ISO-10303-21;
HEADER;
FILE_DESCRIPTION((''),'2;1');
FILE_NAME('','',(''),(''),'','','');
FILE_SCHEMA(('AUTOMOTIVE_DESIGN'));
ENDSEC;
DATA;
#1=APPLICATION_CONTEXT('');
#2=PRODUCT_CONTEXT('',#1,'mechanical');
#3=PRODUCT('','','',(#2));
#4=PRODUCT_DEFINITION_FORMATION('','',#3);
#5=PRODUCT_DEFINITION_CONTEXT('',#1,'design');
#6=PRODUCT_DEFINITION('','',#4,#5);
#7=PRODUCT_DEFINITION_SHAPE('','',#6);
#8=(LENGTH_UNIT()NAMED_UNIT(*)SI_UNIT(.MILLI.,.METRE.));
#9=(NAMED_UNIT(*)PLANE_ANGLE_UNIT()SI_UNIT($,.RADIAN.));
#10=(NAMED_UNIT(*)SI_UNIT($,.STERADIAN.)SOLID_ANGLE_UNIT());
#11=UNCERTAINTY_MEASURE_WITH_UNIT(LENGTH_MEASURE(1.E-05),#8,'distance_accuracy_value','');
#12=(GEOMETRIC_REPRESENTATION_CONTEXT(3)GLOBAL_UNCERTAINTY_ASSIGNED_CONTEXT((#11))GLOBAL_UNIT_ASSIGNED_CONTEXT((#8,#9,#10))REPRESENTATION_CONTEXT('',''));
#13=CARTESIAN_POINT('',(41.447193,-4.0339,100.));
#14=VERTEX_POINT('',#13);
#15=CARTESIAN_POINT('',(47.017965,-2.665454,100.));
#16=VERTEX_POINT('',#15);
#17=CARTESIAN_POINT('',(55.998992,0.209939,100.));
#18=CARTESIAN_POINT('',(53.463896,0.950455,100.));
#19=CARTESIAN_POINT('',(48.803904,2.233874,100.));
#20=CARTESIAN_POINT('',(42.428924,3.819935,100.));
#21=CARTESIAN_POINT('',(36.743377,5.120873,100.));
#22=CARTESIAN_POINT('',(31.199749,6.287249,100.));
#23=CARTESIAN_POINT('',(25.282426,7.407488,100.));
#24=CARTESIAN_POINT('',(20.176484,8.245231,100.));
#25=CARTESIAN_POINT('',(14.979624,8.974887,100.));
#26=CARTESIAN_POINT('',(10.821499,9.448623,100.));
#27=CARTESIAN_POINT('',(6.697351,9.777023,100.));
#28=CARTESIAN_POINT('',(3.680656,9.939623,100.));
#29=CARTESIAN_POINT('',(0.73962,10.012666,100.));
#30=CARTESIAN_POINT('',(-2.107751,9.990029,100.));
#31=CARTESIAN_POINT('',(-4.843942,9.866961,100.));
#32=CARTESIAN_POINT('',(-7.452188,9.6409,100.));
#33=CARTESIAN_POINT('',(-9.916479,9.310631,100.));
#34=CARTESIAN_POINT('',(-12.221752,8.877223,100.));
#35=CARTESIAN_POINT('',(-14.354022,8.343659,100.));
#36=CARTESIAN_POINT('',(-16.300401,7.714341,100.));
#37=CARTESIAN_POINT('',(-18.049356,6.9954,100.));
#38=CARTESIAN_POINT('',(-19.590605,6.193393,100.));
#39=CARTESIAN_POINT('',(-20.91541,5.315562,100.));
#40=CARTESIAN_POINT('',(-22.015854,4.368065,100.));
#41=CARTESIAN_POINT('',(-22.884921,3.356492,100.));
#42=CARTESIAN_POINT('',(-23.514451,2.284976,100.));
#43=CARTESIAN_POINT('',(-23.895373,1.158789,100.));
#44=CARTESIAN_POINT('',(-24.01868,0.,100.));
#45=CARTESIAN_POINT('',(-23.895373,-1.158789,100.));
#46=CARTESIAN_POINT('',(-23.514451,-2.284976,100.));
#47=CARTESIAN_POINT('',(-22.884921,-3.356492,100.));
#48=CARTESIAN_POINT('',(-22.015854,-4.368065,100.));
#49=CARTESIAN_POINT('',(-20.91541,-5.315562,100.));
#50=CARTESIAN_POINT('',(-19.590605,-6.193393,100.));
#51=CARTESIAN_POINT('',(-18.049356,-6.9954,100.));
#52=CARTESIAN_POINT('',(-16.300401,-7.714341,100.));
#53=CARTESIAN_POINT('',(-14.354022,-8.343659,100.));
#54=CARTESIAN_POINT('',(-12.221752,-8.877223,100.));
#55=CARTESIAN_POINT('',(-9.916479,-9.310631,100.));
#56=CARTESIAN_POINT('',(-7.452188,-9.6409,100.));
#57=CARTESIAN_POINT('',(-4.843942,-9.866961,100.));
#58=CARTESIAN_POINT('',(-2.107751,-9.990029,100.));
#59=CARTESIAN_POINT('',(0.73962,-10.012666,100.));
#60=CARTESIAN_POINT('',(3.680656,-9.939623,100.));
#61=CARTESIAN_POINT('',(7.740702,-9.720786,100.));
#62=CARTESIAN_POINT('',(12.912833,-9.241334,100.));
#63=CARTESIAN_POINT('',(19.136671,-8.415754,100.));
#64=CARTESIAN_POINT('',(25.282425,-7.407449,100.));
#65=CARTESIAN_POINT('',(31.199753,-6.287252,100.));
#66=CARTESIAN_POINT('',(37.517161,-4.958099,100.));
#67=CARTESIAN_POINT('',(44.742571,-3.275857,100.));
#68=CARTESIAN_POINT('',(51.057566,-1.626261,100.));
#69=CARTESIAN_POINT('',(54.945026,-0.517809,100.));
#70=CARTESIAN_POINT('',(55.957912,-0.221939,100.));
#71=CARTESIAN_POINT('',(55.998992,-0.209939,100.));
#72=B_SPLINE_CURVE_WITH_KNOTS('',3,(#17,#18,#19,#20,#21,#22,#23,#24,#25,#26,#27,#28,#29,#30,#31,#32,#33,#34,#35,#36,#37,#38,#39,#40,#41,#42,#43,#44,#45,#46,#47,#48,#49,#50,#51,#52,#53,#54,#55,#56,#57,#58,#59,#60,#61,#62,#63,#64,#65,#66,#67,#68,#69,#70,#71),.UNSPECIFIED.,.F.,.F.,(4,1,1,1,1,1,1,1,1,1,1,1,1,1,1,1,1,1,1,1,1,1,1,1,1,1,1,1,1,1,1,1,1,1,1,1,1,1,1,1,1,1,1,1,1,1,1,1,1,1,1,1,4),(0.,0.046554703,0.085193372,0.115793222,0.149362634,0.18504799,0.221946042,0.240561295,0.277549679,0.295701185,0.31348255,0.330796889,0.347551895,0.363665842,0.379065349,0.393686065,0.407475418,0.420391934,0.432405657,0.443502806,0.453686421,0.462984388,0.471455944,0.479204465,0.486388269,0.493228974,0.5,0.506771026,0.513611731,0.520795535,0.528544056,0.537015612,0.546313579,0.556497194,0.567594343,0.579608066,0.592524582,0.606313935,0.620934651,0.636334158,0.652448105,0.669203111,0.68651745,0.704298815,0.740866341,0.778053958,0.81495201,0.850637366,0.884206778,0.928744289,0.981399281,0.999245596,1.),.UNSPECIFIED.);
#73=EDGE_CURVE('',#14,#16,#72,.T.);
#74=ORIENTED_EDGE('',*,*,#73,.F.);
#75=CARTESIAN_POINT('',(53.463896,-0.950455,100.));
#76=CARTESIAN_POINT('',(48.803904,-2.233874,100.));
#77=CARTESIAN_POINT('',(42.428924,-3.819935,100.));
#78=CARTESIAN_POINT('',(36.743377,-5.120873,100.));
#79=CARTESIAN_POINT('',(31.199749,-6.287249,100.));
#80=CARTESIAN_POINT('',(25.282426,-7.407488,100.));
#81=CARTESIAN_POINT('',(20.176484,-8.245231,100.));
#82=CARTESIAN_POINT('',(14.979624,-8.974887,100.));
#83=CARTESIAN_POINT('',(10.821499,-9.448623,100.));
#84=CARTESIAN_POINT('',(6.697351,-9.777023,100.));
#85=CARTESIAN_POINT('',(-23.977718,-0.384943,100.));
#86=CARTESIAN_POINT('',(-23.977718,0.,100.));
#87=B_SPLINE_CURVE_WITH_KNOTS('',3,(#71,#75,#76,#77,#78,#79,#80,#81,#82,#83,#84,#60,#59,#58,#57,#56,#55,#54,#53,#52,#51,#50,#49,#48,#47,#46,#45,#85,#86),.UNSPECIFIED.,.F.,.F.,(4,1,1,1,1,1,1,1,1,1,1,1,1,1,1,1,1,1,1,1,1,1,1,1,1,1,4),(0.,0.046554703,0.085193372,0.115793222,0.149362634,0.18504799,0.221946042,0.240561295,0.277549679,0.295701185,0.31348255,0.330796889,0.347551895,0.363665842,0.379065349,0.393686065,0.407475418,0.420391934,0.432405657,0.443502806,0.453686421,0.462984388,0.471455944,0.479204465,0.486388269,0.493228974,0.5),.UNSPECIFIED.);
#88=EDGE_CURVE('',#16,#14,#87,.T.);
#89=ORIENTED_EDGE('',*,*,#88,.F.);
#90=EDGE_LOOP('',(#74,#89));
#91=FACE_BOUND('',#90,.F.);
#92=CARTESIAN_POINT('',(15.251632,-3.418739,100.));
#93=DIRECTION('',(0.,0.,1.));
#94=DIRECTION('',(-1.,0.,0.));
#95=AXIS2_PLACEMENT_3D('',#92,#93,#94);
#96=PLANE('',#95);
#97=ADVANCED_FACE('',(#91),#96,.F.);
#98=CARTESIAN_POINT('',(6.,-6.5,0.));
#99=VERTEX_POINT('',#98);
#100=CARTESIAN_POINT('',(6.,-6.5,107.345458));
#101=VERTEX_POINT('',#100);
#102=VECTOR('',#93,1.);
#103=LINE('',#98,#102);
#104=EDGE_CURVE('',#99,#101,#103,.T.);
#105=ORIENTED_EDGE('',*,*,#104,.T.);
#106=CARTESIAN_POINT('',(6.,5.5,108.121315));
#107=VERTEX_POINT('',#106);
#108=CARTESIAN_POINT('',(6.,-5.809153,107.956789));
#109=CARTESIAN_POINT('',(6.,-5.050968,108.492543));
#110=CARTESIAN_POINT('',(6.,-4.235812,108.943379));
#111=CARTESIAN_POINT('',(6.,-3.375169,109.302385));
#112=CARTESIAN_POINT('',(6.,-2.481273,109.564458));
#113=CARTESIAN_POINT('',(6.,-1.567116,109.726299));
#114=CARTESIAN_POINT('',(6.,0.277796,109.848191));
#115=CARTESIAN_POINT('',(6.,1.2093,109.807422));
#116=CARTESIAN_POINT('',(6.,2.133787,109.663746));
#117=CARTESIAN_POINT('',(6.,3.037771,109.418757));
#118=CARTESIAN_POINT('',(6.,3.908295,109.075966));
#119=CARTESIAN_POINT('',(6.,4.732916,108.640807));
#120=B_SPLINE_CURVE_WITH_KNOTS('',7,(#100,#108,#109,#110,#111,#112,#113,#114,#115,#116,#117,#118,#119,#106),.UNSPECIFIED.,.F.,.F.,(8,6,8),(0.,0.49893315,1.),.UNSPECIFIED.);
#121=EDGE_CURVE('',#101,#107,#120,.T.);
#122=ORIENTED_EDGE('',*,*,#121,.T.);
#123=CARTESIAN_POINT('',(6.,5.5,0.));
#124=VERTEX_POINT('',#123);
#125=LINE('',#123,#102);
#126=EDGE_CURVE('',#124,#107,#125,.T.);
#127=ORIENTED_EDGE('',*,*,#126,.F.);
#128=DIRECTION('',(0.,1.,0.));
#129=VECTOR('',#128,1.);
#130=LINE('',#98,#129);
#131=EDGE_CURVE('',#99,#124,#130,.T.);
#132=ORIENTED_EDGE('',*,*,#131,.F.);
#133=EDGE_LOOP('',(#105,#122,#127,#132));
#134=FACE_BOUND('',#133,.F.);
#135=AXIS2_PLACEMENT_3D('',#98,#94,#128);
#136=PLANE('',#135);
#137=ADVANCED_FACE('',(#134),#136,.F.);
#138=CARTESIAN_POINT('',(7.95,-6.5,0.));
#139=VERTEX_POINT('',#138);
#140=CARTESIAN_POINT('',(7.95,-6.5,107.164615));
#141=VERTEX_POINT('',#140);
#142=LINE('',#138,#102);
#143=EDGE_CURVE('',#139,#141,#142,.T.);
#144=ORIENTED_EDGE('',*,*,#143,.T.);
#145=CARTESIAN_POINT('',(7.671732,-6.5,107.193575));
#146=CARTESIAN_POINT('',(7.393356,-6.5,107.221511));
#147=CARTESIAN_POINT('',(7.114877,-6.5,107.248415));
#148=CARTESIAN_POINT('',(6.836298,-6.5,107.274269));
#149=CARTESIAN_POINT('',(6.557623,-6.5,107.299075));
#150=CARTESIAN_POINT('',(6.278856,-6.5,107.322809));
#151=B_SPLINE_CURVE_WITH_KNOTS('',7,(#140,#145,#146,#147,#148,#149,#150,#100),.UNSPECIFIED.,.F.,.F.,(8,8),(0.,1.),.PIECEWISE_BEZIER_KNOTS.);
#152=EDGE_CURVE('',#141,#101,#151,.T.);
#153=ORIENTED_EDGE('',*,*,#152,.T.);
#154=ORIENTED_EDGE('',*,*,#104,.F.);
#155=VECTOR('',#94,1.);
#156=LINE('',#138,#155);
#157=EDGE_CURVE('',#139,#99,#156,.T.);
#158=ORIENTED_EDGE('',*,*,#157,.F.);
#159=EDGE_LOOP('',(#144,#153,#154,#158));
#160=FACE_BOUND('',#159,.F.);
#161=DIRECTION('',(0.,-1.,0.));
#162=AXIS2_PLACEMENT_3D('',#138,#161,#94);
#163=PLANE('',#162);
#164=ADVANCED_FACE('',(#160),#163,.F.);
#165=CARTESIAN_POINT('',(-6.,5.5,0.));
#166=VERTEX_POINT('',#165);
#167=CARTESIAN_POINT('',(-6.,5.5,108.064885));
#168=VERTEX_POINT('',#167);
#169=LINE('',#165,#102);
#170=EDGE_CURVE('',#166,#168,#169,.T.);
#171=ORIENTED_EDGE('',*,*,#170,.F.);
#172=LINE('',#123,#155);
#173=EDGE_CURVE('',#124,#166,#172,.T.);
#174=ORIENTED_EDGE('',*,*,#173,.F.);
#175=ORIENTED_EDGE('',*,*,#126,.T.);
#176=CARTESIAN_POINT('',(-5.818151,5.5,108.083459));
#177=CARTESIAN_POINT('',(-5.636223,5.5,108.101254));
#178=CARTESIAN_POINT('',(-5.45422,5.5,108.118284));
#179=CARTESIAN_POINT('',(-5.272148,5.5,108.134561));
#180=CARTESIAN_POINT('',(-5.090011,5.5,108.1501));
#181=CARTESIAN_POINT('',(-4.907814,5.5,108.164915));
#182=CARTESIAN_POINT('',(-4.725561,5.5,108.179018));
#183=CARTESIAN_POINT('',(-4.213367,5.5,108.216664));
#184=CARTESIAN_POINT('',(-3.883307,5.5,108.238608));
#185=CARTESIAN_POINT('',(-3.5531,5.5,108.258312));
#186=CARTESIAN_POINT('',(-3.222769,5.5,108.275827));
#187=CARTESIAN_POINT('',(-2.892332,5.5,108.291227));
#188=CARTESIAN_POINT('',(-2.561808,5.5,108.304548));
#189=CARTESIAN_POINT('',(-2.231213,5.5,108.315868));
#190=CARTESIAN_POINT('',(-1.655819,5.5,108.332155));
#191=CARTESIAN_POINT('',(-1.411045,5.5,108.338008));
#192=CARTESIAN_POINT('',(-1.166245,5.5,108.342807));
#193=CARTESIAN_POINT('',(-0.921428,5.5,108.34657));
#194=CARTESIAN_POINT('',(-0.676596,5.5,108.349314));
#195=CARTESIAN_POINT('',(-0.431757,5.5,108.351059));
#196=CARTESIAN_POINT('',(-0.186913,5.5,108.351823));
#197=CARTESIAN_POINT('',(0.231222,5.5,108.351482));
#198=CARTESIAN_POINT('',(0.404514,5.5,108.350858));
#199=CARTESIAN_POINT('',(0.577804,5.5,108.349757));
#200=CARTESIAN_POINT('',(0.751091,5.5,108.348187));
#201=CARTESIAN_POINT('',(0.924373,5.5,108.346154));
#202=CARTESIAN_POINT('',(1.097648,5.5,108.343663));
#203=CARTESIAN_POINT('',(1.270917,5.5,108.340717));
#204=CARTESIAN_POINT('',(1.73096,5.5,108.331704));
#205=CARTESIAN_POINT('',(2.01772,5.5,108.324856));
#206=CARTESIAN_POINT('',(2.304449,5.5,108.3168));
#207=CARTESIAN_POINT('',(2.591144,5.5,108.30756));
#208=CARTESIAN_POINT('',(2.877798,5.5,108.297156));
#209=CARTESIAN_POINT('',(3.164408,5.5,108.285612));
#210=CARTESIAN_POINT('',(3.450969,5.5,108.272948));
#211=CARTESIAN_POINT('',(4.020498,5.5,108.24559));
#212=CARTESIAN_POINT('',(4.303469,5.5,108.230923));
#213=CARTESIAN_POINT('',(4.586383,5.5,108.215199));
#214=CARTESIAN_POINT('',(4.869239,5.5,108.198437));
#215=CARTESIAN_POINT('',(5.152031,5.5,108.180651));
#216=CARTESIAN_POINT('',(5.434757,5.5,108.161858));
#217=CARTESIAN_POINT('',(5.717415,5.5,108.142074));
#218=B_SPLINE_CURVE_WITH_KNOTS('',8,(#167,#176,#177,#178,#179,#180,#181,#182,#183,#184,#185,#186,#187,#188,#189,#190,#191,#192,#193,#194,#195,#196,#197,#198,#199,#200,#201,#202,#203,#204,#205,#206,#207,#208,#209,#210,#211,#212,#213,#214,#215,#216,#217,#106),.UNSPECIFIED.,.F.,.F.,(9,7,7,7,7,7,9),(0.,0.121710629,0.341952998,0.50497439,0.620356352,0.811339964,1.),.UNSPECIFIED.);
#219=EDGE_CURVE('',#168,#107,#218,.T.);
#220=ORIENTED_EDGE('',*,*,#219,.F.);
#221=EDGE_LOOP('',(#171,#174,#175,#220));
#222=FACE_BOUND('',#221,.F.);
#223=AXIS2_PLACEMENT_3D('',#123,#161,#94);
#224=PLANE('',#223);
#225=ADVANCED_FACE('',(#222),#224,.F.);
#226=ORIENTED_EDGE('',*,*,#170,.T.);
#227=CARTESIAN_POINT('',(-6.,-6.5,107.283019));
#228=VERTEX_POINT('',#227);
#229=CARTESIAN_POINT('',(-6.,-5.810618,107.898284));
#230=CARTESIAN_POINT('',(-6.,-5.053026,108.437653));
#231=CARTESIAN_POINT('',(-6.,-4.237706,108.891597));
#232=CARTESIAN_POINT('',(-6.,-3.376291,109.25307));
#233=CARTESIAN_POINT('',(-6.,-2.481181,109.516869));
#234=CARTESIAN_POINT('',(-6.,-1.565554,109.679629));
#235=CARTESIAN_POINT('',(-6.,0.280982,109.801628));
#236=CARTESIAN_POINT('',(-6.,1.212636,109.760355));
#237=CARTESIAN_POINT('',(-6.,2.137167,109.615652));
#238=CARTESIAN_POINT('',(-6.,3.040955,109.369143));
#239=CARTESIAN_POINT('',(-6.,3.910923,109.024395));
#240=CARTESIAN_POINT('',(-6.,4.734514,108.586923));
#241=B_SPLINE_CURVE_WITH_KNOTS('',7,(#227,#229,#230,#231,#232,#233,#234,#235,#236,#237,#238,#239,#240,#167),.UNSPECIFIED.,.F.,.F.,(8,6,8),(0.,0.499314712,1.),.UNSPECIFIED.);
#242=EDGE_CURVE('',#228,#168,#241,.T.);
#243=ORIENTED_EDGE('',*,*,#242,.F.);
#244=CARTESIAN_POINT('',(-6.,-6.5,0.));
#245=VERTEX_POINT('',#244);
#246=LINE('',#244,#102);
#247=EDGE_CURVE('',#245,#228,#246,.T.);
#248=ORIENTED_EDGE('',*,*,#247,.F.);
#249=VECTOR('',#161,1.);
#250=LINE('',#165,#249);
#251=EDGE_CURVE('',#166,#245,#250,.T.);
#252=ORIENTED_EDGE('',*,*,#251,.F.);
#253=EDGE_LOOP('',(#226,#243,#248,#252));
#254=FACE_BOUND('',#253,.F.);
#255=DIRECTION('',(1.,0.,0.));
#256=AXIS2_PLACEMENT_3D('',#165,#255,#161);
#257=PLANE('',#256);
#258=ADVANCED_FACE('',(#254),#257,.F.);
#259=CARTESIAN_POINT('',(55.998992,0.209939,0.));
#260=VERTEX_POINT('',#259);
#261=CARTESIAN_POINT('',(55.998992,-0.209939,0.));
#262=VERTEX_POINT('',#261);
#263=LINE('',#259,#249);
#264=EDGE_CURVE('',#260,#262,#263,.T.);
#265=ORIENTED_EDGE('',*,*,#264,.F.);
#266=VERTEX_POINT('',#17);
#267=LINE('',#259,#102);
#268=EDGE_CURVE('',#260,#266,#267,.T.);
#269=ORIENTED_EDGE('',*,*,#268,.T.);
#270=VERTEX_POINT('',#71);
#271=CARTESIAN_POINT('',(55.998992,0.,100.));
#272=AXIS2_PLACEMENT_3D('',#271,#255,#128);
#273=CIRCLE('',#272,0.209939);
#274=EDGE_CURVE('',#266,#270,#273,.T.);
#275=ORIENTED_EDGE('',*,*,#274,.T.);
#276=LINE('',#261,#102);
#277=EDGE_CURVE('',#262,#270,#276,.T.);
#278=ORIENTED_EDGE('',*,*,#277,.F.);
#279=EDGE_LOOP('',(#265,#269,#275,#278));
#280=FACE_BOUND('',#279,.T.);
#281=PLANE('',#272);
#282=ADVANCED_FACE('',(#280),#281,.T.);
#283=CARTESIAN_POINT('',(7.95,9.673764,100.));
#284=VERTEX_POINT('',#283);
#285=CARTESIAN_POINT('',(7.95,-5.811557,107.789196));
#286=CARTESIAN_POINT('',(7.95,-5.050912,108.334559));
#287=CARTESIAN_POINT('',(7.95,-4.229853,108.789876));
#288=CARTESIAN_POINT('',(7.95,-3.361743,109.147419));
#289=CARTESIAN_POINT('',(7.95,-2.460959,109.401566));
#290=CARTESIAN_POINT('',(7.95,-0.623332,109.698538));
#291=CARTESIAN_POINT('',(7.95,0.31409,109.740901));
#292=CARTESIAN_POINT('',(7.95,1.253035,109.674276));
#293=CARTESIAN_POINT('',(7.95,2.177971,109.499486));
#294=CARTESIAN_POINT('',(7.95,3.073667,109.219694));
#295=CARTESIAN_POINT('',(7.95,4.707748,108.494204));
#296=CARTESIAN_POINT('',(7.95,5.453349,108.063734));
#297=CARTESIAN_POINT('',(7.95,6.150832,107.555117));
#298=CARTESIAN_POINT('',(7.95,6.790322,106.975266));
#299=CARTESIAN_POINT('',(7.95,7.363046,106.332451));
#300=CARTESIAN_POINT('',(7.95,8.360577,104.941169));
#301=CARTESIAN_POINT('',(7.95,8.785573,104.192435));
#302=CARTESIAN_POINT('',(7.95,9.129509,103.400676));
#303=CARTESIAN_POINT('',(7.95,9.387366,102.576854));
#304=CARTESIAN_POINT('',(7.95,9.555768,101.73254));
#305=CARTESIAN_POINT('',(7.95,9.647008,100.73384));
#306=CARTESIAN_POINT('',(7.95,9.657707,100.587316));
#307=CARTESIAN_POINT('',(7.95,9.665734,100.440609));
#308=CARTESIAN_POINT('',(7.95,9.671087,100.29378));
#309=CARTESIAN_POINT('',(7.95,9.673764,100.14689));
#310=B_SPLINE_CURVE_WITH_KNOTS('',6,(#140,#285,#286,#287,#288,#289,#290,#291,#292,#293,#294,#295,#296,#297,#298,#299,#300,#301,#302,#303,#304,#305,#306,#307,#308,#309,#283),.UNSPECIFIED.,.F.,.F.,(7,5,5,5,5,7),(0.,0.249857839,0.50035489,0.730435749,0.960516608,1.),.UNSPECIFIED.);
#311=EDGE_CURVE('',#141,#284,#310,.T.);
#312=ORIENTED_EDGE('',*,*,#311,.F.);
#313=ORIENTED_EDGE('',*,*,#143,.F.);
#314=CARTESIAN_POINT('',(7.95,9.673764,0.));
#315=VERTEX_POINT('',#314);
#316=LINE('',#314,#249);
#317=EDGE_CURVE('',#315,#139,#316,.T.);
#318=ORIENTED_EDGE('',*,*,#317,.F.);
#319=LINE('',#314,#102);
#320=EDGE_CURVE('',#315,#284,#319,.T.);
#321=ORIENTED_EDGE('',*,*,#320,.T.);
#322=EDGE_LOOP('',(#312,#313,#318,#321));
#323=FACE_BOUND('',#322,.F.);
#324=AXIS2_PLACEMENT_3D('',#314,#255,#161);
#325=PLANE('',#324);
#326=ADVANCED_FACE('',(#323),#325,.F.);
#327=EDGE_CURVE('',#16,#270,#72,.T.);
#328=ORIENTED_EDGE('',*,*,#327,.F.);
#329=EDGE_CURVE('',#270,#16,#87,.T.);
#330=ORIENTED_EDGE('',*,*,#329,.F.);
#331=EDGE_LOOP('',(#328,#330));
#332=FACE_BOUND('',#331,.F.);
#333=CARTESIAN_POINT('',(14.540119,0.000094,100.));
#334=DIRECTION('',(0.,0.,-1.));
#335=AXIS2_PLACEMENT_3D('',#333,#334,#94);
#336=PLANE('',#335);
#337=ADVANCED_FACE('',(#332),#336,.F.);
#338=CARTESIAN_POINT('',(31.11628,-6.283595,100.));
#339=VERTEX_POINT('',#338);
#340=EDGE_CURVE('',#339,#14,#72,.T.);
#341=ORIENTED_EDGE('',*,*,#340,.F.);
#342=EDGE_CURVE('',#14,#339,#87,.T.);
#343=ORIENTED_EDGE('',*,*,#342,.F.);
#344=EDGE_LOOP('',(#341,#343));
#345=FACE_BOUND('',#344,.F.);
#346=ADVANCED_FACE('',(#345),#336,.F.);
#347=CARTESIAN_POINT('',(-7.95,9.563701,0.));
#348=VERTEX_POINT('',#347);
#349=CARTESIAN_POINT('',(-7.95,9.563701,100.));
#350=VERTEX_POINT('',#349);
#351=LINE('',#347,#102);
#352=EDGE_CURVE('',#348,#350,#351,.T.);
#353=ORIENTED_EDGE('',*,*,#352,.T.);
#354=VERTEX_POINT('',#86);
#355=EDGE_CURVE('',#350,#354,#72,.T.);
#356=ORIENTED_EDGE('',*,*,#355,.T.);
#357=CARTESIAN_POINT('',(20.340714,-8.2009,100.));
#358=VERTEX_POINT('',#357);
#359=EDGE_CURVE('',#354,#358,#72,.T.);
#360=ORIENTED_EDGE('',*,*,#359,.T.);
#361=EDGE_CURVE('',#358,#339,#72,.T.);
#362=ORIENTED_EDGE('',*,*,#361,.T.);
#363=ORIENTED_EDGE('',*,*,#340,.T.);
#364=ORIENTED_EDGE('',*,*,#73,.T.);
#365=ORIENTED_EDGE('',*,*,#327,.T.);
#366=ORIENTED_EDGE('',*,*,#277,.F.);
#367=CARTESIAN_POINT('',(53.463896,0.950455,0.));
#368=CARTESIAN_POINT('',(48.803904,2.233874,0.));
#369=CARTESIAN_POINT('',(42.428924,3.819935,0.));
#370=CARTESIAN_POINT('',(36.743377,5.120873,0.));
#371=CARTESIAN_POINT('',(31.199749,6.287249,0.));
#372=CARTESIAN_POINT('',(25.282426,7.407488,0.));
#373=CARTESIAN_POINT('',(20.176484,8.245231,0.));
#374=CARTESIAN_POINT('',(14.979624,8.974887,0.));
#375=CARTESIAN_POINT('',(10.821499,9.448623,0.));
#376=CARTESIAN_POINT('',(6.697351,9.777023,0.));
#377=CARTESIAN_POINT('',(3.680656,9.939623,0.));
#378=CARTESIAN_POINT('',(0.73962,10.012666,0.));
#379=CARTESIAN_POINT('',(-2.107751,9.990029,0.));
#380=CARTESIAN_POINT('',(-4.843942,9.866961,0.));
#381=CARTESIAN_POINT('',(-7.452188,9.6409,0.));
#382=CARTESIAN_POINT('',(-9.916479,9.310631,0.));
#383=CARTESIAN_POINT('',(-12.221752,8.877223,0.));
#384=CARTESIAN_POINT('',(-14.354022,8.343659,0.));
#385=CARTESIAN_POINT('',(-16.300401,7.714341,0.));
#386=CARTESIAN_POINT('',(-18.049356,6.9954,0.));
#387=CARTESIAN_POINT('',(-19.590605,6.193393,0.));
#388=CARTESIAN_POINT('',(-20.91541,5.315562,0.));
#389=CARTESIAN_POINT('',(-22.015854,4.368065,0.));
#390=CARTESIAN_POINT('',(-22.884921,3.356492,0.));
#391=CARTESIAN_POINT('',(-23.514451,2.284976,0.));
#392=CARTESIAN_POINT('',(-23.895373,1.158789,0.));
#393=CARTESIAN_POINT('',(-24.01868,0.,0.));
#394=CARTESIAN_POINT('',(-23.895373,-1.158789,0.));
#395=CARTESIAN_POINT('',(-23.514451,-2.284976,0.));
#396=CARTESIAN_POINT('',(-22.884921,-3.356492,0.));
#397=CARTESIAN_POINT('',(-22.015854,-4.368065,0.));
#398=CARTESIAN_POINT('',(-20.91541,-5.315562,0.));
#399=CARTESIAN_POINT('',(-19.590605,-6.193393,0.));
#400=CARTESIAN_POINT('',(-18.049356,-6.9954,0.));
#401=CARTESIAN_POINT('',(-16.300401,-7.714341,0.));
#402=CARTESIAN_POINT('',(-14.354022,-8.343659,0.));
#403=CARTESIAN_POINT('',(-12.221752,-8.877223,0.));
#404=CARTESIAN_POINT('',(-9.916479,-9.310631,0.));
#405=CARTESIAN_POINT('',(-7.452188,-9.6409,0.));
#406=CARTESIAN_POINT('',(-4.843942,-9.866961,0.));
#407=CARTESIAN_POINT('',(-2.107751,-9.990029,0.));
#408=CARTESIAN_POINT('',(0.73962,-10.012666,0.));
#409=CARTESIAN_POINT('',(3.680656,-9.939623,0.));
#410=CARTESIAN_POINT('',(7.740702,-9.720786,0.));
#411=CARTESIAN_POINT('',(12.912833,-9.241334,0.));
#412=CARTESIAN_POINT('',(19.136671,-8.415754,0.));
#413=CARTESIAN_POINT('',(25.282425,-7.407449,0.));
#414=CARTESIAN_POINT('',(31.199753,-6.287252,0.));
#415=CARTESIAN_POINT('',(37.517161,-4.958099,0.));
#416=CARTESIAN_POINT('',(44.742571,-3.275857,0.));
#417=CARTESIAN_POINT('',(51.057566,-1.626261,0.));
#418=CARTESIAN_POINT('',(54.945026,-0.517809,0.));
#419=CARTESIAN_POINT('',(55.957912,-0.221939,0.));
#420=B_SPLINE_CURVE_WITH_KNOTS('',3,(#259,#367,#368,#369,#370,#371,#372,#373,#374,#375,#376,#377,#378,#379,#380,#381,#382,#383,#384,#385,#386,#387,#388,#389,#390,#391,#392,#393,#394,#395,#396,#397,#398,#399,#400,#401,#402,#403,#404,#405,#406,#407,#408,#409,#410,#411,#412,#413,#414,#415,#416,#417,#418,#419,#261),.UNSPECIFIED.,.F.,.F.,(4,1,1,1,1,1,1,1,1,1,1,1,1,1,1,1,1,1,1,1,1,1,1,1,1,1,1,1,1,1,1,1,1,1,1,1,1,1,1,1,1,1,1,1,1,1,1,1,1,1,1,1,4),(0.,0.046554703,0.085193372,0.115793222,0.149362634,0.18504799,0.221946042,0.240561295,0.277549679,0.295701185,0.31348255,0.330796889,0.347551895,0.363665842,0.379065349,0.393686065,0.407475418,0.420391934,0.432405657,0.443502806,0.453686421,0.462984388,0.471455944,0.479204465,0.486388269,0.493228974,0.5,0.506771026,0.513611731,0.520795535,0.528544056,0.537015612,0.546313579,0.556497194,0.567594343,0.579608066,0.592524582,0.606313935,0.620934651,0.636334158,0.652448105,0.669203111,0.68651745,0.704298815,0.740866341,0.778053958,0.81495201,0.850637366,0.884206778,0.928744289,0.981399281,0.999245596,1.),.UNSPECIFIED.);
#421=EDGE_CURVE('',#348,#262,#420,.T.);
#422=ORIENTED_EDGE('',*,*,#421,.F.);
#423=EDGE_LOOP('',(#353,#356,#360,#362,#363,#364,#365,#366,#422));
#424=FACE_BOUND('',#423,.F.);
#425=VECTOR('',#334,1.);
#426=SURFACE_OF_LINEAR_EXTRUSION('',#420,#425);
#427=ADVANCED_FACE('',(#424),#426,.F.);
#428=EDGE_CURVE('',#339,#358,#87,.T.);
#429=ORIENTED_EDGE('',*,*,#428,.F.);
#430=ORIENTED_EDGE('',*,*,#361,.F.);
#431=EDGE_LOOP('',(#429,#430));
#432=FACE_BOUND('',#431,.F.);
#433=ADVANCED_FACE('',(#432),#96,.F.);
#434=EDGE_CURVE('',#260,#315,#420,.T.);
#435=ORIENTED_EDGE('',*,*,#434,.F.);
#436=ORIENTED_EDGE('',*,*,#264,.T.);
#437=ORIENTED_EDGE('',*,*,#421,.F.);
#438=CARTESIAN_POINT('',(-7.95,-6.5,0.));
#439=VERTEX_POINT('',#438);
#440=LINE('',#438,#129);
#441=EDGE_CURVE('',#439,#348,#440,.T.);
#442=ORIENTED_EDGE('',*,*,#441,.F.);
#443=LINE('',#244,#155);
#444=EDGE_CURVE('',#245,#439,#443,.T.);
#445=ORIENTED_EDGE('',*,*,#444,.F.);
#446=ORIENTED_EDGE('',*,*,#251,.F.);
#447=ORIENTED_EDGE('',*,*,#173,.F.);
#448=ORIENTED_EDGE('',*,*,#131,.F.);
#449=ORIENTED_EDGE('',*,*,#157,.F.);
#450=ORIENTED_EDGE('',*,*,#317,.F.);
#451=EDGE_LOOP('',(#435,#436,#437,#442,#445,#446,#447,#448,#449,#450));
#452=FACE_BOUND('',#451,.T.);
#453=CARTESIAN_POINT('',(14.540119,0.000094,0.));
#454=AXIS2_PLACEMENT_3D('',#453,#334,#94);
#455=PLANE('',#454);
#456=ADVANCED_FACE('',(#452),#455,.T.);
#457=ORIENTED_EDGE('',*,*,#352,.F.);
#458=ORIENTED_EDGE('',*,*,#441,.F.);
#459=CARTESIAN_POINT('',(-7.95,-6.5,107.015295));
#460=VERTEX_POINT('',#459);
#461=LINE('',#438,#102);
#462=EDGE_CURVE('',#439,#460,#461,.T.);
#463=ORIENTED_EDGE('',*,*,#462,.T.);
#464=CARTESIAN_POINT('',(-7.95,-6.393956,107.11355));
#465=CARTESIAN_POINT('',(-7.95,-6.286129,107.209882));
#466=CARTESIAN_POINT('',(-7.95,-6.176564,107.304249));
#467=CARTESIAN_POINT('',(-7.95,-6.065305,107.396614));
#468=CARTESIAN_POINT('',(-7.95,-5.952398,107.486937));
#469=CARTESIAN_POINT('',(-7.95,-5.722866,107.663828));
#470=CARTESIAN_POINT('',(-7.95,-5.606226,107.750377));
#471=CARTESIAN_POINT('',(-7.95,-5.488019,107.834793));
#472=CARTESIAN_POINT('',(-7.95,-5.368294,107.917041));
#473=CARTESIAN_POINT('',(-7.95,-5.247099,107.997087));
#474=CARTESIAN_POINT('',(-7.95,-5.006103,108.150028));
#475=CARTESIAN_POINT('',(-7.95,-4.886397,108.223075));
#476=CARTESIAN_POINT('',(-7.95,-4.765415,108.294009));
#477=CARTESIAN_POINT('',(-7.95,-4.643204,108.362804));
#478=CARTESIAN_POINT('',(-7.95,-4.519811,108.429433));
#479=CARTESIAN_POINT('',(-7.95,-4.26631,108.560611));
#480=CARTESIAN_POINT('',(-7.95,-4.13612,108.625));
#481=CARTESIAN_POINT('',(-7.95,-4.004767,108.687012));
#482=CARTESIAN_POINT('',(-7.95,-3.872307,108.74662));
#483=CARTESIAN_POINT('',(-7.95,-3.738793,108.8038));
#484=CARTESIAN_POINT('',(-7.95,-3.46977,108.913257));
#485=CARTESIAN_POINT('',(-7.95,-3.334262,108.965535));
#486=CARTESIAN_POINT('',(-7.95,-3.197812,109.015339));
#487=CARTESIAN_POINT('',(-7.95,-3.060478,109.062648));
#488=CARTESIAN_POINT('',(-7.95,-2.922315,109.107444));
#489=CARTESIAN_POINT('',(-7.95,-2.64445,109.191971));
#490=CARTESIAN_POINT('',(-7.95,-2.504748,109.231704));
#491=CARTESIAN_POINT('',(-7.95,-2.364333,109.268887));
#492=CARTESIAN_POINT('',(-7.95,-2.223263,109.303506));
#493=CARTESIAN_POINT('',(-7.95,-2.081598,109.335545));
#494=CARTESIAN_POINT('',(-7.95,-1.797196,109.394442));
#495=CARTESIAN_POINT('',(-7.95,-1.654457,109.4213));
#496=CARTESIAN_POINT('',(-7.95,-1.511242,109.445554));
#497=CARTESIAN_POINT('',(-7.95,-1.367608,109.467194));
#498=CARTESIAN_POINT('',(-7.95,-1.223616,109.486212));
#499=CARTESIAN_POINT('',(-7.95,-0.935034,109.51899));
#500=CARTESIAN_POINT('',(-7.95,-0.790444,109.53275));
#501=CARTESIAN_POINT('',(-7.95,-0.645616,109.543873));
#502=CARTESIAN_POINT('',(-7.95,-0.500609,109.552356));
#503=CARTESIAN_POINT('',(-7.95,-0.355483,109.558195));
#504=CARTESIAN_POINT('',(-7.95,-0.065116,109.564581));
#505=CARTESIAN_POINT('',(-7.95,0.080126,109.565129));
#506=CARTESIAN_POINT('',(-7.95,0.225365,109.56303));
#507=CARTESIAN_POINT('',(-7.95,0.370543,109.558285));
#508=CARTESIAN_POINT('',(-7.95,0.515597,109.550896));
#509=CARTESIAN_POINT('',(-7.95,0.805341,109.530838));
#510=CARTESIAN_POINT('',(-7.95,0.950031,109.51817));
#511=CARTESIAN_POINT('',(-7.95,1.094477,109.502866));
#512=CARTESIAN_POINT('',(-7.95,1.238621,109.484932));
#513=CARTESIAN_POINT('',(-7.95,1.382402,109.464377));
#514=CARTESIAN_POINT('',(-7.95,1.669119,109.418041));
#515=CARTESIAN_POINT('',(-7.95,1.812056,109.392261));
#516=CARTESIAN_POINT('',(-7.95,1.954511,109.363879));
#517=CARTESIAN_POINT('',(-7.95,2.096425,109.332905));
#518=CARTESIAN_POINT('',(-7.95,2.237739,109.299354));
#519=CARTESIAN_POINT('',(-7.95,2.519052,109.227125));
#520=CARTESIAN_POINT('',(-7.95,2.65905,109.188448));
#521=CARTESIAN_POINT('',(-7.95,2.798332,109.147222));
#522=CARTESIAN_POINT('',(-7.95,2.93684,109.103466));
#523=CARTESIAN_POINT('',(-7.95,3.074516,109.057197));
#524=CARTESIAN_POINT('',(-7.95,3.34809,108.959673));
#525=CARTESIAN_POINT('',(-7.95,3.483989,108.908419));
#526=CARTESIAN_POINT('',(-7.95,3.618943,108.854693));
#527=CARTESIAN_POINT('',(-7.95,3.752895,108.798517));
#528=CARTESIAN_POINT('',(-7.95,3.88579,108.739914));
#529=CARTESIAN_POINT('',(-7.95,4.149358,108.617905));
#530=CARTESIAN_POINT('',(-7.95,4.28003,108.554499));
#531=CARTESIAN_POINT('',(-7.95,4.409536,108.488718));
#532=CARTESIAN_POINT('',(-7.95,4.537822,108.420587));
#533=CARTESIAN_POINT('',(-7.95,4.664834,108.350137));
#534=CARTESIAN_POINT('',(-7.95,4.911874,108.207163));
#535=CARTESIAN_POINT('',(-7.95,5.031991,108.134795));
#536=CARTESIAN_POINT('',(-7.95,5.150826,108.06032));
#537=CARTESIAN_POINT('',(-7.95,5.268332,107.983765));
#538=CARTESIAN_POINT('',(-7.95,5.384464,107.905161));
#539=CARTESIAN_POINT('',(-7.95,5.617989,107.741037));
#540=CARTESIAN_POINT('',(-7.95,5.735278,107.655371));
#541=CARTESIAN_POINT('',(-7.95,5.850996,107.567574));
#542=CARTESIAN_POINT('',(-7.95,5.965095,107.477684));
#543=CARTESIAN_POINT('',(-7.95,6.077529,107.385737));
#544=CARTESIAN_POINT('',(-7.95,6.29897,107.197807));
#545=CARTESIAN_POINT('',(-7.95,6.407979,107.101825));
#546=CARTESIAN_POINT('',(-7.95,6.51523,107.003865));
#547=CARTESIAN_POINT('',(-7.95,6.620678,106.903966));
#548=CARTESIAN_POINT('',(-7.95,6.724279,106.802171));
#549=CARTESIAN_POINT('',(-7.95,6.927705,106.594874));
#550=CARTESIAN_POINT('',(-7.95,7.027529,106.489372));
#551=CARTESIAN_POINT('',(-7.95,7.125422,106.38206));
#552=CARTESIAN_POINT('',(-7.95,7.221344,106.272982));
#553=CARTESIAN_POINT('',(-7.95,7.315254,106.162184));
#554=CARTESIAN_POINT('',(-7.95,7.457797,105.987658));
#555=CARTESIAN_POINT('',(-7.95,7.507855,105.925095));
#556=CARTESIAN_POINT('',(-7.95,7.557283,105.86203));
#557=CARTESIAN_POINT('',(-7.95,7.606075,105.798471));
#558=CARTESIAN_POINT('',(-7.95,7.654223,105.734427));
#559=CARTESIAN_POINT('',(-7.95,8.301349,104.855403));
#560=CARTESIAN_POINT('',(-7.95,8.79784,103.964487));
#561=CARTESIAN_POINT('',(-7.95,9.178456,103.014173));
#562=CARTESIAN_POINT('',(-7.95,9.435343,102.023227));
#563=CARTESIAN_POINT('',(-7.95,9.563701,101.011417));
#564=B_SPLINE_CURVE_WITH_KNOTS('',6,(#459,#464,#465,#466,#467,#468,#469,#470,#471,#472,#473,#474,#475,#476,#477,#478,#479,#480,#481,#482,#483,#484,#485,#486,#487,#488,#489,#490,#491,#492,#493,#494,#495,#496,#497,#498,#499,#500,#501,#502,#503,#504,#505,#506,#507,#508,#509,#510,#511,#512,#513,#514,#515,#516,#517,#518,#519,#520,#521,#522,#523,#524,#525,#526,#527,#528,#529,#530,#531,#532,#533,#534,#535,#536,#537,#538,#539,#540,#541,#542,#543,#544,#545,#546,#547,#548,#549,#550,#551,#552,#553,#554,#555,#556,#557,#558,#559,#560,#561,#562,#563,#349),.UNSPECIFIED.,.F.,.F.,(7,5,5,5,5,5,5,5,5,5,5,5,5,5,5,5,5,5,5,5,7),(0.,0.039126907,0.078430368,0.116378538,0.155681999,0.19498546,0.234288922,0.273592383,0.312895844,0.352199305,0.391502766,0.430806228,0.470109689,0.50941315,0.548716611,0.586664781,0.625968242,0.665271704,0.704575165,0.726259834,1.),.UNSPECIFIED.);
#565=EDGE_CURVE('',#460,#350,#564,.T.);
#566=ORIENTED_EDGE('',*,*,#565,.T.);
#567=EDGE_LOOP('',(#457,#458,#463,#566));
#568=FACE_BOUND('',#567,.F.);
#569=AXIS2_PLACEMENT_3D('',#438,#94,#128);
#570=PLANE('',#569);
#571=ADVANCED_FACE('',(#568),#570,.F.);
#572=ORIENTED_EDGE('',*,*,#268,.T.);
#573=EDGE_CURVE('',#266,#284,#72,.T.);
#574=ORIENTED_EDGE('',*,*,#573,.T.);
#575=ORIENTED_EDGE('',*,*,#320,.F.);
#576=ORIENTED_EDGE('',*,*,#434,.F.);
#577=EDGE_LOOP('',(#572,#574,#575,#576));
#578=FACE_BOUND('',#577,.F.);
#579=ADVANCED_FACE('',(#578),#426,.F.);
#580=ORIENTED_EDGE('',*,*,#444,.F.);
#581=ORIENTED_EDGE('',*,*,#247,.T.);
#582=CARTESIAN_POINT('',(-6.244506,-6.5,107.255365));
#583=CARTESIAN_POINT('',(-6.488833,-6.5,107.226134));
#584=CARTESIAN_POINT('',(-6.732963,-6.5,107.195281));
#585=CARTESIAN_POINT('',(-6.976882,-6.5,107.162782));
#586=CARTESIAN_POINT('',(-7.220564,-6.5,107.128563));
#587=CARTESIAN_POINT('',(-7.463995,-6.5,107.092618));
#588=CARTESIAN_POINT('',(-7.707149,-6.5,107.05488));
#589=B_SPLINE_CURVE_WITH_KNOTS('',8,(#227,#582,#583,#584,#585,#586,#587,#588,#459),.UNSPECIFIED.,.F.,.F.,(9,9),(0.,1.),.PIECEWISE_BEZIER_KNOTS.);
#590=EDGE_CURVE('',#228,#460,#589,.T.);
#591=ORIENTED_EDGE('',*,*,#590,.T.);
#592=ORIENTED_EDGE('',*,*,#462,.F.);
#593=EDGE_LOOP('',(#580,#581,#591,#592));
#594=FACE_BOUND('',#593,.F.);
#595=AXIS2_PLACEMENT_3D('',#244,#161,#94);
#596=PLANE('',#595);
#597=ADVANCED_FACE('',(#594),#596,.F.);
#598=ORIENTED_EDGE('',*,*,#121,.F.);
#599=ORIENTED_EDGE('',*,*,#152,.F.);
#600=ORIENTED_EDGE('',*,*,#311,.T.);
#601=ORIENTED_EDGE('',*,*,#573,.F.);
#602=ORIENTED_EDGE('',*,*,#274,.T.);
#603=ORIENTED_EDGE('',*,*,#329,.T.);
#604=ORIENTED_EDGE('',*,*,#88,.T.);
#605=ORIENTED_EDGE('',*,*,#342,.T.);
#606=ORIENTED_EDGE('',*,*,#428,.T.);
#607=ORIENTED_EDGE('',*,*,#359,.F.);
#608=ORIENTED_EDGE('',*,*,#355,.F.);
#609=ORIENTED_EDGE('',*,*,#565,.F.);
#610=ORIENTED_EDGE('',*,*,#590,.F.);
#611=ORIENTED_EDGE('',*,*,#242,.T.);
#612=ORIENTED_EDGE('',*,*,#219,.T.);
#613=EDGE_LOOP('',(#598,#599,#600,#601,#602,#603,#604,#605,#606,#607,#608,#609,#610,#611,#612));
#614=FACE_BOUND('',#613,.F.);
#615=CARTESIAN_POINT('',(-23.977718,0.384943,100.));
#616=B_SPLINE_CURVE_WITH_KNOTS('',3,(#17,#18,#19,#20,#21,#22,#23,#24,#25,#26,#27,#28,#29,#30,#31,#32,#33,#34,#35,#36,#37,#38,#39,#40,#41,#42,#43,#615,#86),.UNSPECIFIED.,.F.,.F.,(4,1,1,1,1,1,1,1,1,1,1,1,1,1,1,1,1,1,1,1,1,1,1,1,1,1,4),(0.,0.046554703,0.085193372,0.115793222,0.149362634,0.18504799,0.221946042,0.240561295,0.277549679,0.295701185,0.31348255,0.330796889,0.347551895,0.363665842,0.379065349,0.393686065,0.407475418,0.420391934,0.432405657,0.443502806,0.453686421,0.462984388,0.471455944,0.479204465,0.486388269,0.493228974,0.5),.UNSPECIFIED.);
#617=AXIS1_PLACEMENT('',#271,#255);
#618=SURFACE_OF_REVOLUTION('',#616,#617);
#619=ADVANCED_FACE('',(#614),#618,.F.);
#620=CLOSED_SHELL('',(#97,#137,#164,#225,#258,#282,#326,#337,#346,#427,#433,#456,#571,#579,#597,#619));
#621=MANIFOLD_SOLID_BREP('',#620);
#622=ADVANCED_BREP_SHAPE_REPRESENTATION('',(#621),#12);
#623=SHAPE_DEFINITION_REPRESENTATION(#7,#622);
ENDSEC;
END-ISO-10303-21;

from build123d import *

# Parameters (mm, degrees)
BOSS_EXTRUDE1_DEPTH = 100
REVOLVE1_ANGLE      = 180
CUT_EXTRUDE1_REACH  = 112


with BuildPart() as part:
    # Sketch2 → Boss-Extrude1 (new body)
    with BuildSketch(Plane.XY):
        with BuildLine():
            Line((55.998991919, 0.209938863), (55.998991919, -0.209938863))
            add(Edge.make_bspline(
                [(55.998991919, 0.209938863), (53.463896497, 0.950455214), (48.803904258, 2.233873897), (42.428923908, 3.819934884), (36.743376831, 5.120873453), (31.199749362, 6.287249396), (25.282426203, 7.407488419), (20.176484373, 8.245231015), (14.979623954, 8.974887306), (10.821499069, 9.44862332), (6.697350987, 9.777022894), (3.680655604, 9.939622605), (0.739619613, 10.012665726), (-2.107751213, 9.990028944), (-4.843941705, 9.866960982), (-7.452188048, 9.640899897), (-9.916478705, 9.310630744), (-12.221751766, 8.877222993), (-14.354021752, 8.343659433), (-16.300401345, 7.714341159), (-18.049355518, 6.995399514), (-19.590605164, 6.19339349), (-20.915410238, 5.315562027), (-22.015853697, 4.368064829), (-22.884921184, 3.356491652), (-23.514451457, 2.28497611), (-23.895372624, 1.158788991), (-24.018679664, 0), (-23.895372624, -1.158788991), (-23.514451457, -2.28497611), (-22.884921184, -3.356491652), (-22.015853697, -4.368064829), (-20.915410238, -5.315562027), (-19.590605164, -6.19339349), (-18.049355518, -6.995399514), (-16.300401345, -7.714341159), (-14.354021752, -8.343659433), (-12.221751766, -8.877222993), (-9.916478705, -9.310630744), (-7.452188048, -9.640899897), (-4.843941705, -9.866960982), (-2.107751213, -9.990028944), (0.739619613, -10.012665726), (3.680655604, -9.939622605), (7.74070187, -9.72078634), (12.912832982, -9.241334238), (19.136671313, -8.415754469), (25.28242537, -7.407448977), (31.199752667, -6.287252304), (37.517160947, -4.95809922), (44.742570872, -3.275857272), (51.057566095, -1.626260629), (54.945025722, -0.517808616), (55.95791152, -0.221938691), (55.998991919, -0.209938863)],
                knots=[0, 0, 0, 0, 0.046554703, 0.085193372, 0.115793222, 0.149362634, 0.18504799, 0.221946042, 0.240561295, 0.277549679, 0.295701185, 0.31348255, 0.330796889, 0.347551895, 0.363665842, 0.379065349, 0.393686065, 0.407475418, 0.420391934, 0.432405657, 0.443502806, 0.453686421, 0.462984388, 0.471455944, 0.479204465, 0.486388269, 0.493228974, 0.5, 0.506771026, 0.513611731, 0.520795535, 0.528544056, 0.537015612, 0.546313579, 0.556497194, 0.567594343, 0.579608066, 0.592524582, 0.606313935, 0.620934651, 0.636334158, 0.652448105, 0.669203111, 0.68651745, 0.704298815, 0.740866341, 0.778053958, 0.81495201, 0.850637366, 0.884206778, 0.928744289, 0.981399281, 0.999245596, 1, 1, 1, 1], degree=3))
        make_face()
    extrude(amount=BOSS_EXTRUDE1_DEPTH)

    # Sketch4 → Revolve1 (revolve)
    with BuildSketch(Plane.XY.offset(100)):
        with BuildLine():
            Line((55.998991919, 0), (-23.977717827, 0))
            add(Edge.make_bspline(
                [(55.998991919, 0.209938863), (53.463896497, 0.950455214), (48.803904258, 2.233873897), (42.428923908, 3.819934884), (36.743376831, 5.120873453), (31.199749362, 6.287249396), (25.282426203, 7.407488419), (20.176484373, 8.245231015), (14.979623954, 8.974887306), (10.821499069, 9.44862332), (6.697350987, 9.777022894), (3.680655604, 9.939622605), (0.739619613, 10.012665726), (-2.107751213, 9.990028944), (-4.843941705, 9.866960982), (-7.452188048, 9.640899897), (-9.916478705, 9.310630744), (-12.221751766, 8.877222993), (-14.354021752, 8.343659433), (-16.300401345, 7.714341159), (-18.049355518, 6.995399514), (-19.590605164, 6.19339349), (-20.915410238, 5.315562027), (-22.015853697, 4.368064829), (-22.884921184, 3.356491652), (-23.514451457, 2.28497611), (-23.895372624, 1.158788991), (-23.977717827, 0.384942543), (-23.977717827, 0)],
                knots=[0, 0, 0, 0, 0.046554703, 0.085193372, 0.115793222, 0.149362634, 0.18504799, 0.221946042, 0.240561295, 0.277549679, 0.295701185, 0.31348255, 0.330796889, 0.347551895, 0.363665842, 0.379065349, 0.393686065, 0.407475418, 0.420391934, 0.432405657, 0.443502806, 0.453686421, 0.462984388, 0.471455944, 0.479204465, 0.486388269, 0.493228974, 0.5, 0.5, 0.5, 0.5], degree=3))
            Line((55.998991919, 0.209938863), (55.998991919, 0))
        make_face()
    revolve(axis=Axis((55.998991919, 0, 100), (1, 0, 0)), revolution_arc=REVOLVE1_ANGLE)

    # Sketch3 → Cut-Extrude1 (cut, up to next)
    with BuildSketch(Plane(origin=(0, 0, 0), x_dir=(-1, 0, 0), z_dir=(0, 0, -1)), mode=Mode.PRIVATE) as cut_extrude1_sk1:
        with BuildLine():
            Line((6, -6.5), (7.95, -6.5))
            Line((7.95, -6.5), (7.95, 9.56370057))
            add(Edge.make_bspline(
                [(-7.95, 9.673763928), (-7.525333967, 9.706496284), (-6.094337758, 9.809525273), (-3.680655604, 9.939622605), (-0.739619613, 10.012665726), (2.107751213, 9.990028944), (4.843941705, 9.866960982), (6.778071836, 9.69932668), (7.798061571, 9.581867182), (7.95, 9.56370057)],
                knots=[0.28819337, 0.28819337, 0.28819337, 0.28819337, 0.295701185, 0.31348255, 0.330796889, 0.347551895, 0.363665842, 0.379065349, 0.381762425, 0.381762425, 0.381762425, 0.381762425], degree=3))
            Line((-7.95, 9.673763928), (-7.95, -6.5))
            Line((-7.95, -6.5), (-6, -6.5))
            Line((-6, -6.5), (-6, 5.5))
            Line((-6, 5.5), (6, 5.5))
            Line((6, 5.5), (6, -6.5))
        make_face()
    cut_extrude1_tool1 = extrude(cut_extrude1_sk1.sketch, amount=-CUT_EXTRUDE1_REACH, mode=Mode.PRIVATE) & part.part
    add(cut_extrude1_tool1.solids().sort_by_distance((-6.975, -6.270858, 0))[0], mode=Mode.SUBTRACT)


solid = part.part
